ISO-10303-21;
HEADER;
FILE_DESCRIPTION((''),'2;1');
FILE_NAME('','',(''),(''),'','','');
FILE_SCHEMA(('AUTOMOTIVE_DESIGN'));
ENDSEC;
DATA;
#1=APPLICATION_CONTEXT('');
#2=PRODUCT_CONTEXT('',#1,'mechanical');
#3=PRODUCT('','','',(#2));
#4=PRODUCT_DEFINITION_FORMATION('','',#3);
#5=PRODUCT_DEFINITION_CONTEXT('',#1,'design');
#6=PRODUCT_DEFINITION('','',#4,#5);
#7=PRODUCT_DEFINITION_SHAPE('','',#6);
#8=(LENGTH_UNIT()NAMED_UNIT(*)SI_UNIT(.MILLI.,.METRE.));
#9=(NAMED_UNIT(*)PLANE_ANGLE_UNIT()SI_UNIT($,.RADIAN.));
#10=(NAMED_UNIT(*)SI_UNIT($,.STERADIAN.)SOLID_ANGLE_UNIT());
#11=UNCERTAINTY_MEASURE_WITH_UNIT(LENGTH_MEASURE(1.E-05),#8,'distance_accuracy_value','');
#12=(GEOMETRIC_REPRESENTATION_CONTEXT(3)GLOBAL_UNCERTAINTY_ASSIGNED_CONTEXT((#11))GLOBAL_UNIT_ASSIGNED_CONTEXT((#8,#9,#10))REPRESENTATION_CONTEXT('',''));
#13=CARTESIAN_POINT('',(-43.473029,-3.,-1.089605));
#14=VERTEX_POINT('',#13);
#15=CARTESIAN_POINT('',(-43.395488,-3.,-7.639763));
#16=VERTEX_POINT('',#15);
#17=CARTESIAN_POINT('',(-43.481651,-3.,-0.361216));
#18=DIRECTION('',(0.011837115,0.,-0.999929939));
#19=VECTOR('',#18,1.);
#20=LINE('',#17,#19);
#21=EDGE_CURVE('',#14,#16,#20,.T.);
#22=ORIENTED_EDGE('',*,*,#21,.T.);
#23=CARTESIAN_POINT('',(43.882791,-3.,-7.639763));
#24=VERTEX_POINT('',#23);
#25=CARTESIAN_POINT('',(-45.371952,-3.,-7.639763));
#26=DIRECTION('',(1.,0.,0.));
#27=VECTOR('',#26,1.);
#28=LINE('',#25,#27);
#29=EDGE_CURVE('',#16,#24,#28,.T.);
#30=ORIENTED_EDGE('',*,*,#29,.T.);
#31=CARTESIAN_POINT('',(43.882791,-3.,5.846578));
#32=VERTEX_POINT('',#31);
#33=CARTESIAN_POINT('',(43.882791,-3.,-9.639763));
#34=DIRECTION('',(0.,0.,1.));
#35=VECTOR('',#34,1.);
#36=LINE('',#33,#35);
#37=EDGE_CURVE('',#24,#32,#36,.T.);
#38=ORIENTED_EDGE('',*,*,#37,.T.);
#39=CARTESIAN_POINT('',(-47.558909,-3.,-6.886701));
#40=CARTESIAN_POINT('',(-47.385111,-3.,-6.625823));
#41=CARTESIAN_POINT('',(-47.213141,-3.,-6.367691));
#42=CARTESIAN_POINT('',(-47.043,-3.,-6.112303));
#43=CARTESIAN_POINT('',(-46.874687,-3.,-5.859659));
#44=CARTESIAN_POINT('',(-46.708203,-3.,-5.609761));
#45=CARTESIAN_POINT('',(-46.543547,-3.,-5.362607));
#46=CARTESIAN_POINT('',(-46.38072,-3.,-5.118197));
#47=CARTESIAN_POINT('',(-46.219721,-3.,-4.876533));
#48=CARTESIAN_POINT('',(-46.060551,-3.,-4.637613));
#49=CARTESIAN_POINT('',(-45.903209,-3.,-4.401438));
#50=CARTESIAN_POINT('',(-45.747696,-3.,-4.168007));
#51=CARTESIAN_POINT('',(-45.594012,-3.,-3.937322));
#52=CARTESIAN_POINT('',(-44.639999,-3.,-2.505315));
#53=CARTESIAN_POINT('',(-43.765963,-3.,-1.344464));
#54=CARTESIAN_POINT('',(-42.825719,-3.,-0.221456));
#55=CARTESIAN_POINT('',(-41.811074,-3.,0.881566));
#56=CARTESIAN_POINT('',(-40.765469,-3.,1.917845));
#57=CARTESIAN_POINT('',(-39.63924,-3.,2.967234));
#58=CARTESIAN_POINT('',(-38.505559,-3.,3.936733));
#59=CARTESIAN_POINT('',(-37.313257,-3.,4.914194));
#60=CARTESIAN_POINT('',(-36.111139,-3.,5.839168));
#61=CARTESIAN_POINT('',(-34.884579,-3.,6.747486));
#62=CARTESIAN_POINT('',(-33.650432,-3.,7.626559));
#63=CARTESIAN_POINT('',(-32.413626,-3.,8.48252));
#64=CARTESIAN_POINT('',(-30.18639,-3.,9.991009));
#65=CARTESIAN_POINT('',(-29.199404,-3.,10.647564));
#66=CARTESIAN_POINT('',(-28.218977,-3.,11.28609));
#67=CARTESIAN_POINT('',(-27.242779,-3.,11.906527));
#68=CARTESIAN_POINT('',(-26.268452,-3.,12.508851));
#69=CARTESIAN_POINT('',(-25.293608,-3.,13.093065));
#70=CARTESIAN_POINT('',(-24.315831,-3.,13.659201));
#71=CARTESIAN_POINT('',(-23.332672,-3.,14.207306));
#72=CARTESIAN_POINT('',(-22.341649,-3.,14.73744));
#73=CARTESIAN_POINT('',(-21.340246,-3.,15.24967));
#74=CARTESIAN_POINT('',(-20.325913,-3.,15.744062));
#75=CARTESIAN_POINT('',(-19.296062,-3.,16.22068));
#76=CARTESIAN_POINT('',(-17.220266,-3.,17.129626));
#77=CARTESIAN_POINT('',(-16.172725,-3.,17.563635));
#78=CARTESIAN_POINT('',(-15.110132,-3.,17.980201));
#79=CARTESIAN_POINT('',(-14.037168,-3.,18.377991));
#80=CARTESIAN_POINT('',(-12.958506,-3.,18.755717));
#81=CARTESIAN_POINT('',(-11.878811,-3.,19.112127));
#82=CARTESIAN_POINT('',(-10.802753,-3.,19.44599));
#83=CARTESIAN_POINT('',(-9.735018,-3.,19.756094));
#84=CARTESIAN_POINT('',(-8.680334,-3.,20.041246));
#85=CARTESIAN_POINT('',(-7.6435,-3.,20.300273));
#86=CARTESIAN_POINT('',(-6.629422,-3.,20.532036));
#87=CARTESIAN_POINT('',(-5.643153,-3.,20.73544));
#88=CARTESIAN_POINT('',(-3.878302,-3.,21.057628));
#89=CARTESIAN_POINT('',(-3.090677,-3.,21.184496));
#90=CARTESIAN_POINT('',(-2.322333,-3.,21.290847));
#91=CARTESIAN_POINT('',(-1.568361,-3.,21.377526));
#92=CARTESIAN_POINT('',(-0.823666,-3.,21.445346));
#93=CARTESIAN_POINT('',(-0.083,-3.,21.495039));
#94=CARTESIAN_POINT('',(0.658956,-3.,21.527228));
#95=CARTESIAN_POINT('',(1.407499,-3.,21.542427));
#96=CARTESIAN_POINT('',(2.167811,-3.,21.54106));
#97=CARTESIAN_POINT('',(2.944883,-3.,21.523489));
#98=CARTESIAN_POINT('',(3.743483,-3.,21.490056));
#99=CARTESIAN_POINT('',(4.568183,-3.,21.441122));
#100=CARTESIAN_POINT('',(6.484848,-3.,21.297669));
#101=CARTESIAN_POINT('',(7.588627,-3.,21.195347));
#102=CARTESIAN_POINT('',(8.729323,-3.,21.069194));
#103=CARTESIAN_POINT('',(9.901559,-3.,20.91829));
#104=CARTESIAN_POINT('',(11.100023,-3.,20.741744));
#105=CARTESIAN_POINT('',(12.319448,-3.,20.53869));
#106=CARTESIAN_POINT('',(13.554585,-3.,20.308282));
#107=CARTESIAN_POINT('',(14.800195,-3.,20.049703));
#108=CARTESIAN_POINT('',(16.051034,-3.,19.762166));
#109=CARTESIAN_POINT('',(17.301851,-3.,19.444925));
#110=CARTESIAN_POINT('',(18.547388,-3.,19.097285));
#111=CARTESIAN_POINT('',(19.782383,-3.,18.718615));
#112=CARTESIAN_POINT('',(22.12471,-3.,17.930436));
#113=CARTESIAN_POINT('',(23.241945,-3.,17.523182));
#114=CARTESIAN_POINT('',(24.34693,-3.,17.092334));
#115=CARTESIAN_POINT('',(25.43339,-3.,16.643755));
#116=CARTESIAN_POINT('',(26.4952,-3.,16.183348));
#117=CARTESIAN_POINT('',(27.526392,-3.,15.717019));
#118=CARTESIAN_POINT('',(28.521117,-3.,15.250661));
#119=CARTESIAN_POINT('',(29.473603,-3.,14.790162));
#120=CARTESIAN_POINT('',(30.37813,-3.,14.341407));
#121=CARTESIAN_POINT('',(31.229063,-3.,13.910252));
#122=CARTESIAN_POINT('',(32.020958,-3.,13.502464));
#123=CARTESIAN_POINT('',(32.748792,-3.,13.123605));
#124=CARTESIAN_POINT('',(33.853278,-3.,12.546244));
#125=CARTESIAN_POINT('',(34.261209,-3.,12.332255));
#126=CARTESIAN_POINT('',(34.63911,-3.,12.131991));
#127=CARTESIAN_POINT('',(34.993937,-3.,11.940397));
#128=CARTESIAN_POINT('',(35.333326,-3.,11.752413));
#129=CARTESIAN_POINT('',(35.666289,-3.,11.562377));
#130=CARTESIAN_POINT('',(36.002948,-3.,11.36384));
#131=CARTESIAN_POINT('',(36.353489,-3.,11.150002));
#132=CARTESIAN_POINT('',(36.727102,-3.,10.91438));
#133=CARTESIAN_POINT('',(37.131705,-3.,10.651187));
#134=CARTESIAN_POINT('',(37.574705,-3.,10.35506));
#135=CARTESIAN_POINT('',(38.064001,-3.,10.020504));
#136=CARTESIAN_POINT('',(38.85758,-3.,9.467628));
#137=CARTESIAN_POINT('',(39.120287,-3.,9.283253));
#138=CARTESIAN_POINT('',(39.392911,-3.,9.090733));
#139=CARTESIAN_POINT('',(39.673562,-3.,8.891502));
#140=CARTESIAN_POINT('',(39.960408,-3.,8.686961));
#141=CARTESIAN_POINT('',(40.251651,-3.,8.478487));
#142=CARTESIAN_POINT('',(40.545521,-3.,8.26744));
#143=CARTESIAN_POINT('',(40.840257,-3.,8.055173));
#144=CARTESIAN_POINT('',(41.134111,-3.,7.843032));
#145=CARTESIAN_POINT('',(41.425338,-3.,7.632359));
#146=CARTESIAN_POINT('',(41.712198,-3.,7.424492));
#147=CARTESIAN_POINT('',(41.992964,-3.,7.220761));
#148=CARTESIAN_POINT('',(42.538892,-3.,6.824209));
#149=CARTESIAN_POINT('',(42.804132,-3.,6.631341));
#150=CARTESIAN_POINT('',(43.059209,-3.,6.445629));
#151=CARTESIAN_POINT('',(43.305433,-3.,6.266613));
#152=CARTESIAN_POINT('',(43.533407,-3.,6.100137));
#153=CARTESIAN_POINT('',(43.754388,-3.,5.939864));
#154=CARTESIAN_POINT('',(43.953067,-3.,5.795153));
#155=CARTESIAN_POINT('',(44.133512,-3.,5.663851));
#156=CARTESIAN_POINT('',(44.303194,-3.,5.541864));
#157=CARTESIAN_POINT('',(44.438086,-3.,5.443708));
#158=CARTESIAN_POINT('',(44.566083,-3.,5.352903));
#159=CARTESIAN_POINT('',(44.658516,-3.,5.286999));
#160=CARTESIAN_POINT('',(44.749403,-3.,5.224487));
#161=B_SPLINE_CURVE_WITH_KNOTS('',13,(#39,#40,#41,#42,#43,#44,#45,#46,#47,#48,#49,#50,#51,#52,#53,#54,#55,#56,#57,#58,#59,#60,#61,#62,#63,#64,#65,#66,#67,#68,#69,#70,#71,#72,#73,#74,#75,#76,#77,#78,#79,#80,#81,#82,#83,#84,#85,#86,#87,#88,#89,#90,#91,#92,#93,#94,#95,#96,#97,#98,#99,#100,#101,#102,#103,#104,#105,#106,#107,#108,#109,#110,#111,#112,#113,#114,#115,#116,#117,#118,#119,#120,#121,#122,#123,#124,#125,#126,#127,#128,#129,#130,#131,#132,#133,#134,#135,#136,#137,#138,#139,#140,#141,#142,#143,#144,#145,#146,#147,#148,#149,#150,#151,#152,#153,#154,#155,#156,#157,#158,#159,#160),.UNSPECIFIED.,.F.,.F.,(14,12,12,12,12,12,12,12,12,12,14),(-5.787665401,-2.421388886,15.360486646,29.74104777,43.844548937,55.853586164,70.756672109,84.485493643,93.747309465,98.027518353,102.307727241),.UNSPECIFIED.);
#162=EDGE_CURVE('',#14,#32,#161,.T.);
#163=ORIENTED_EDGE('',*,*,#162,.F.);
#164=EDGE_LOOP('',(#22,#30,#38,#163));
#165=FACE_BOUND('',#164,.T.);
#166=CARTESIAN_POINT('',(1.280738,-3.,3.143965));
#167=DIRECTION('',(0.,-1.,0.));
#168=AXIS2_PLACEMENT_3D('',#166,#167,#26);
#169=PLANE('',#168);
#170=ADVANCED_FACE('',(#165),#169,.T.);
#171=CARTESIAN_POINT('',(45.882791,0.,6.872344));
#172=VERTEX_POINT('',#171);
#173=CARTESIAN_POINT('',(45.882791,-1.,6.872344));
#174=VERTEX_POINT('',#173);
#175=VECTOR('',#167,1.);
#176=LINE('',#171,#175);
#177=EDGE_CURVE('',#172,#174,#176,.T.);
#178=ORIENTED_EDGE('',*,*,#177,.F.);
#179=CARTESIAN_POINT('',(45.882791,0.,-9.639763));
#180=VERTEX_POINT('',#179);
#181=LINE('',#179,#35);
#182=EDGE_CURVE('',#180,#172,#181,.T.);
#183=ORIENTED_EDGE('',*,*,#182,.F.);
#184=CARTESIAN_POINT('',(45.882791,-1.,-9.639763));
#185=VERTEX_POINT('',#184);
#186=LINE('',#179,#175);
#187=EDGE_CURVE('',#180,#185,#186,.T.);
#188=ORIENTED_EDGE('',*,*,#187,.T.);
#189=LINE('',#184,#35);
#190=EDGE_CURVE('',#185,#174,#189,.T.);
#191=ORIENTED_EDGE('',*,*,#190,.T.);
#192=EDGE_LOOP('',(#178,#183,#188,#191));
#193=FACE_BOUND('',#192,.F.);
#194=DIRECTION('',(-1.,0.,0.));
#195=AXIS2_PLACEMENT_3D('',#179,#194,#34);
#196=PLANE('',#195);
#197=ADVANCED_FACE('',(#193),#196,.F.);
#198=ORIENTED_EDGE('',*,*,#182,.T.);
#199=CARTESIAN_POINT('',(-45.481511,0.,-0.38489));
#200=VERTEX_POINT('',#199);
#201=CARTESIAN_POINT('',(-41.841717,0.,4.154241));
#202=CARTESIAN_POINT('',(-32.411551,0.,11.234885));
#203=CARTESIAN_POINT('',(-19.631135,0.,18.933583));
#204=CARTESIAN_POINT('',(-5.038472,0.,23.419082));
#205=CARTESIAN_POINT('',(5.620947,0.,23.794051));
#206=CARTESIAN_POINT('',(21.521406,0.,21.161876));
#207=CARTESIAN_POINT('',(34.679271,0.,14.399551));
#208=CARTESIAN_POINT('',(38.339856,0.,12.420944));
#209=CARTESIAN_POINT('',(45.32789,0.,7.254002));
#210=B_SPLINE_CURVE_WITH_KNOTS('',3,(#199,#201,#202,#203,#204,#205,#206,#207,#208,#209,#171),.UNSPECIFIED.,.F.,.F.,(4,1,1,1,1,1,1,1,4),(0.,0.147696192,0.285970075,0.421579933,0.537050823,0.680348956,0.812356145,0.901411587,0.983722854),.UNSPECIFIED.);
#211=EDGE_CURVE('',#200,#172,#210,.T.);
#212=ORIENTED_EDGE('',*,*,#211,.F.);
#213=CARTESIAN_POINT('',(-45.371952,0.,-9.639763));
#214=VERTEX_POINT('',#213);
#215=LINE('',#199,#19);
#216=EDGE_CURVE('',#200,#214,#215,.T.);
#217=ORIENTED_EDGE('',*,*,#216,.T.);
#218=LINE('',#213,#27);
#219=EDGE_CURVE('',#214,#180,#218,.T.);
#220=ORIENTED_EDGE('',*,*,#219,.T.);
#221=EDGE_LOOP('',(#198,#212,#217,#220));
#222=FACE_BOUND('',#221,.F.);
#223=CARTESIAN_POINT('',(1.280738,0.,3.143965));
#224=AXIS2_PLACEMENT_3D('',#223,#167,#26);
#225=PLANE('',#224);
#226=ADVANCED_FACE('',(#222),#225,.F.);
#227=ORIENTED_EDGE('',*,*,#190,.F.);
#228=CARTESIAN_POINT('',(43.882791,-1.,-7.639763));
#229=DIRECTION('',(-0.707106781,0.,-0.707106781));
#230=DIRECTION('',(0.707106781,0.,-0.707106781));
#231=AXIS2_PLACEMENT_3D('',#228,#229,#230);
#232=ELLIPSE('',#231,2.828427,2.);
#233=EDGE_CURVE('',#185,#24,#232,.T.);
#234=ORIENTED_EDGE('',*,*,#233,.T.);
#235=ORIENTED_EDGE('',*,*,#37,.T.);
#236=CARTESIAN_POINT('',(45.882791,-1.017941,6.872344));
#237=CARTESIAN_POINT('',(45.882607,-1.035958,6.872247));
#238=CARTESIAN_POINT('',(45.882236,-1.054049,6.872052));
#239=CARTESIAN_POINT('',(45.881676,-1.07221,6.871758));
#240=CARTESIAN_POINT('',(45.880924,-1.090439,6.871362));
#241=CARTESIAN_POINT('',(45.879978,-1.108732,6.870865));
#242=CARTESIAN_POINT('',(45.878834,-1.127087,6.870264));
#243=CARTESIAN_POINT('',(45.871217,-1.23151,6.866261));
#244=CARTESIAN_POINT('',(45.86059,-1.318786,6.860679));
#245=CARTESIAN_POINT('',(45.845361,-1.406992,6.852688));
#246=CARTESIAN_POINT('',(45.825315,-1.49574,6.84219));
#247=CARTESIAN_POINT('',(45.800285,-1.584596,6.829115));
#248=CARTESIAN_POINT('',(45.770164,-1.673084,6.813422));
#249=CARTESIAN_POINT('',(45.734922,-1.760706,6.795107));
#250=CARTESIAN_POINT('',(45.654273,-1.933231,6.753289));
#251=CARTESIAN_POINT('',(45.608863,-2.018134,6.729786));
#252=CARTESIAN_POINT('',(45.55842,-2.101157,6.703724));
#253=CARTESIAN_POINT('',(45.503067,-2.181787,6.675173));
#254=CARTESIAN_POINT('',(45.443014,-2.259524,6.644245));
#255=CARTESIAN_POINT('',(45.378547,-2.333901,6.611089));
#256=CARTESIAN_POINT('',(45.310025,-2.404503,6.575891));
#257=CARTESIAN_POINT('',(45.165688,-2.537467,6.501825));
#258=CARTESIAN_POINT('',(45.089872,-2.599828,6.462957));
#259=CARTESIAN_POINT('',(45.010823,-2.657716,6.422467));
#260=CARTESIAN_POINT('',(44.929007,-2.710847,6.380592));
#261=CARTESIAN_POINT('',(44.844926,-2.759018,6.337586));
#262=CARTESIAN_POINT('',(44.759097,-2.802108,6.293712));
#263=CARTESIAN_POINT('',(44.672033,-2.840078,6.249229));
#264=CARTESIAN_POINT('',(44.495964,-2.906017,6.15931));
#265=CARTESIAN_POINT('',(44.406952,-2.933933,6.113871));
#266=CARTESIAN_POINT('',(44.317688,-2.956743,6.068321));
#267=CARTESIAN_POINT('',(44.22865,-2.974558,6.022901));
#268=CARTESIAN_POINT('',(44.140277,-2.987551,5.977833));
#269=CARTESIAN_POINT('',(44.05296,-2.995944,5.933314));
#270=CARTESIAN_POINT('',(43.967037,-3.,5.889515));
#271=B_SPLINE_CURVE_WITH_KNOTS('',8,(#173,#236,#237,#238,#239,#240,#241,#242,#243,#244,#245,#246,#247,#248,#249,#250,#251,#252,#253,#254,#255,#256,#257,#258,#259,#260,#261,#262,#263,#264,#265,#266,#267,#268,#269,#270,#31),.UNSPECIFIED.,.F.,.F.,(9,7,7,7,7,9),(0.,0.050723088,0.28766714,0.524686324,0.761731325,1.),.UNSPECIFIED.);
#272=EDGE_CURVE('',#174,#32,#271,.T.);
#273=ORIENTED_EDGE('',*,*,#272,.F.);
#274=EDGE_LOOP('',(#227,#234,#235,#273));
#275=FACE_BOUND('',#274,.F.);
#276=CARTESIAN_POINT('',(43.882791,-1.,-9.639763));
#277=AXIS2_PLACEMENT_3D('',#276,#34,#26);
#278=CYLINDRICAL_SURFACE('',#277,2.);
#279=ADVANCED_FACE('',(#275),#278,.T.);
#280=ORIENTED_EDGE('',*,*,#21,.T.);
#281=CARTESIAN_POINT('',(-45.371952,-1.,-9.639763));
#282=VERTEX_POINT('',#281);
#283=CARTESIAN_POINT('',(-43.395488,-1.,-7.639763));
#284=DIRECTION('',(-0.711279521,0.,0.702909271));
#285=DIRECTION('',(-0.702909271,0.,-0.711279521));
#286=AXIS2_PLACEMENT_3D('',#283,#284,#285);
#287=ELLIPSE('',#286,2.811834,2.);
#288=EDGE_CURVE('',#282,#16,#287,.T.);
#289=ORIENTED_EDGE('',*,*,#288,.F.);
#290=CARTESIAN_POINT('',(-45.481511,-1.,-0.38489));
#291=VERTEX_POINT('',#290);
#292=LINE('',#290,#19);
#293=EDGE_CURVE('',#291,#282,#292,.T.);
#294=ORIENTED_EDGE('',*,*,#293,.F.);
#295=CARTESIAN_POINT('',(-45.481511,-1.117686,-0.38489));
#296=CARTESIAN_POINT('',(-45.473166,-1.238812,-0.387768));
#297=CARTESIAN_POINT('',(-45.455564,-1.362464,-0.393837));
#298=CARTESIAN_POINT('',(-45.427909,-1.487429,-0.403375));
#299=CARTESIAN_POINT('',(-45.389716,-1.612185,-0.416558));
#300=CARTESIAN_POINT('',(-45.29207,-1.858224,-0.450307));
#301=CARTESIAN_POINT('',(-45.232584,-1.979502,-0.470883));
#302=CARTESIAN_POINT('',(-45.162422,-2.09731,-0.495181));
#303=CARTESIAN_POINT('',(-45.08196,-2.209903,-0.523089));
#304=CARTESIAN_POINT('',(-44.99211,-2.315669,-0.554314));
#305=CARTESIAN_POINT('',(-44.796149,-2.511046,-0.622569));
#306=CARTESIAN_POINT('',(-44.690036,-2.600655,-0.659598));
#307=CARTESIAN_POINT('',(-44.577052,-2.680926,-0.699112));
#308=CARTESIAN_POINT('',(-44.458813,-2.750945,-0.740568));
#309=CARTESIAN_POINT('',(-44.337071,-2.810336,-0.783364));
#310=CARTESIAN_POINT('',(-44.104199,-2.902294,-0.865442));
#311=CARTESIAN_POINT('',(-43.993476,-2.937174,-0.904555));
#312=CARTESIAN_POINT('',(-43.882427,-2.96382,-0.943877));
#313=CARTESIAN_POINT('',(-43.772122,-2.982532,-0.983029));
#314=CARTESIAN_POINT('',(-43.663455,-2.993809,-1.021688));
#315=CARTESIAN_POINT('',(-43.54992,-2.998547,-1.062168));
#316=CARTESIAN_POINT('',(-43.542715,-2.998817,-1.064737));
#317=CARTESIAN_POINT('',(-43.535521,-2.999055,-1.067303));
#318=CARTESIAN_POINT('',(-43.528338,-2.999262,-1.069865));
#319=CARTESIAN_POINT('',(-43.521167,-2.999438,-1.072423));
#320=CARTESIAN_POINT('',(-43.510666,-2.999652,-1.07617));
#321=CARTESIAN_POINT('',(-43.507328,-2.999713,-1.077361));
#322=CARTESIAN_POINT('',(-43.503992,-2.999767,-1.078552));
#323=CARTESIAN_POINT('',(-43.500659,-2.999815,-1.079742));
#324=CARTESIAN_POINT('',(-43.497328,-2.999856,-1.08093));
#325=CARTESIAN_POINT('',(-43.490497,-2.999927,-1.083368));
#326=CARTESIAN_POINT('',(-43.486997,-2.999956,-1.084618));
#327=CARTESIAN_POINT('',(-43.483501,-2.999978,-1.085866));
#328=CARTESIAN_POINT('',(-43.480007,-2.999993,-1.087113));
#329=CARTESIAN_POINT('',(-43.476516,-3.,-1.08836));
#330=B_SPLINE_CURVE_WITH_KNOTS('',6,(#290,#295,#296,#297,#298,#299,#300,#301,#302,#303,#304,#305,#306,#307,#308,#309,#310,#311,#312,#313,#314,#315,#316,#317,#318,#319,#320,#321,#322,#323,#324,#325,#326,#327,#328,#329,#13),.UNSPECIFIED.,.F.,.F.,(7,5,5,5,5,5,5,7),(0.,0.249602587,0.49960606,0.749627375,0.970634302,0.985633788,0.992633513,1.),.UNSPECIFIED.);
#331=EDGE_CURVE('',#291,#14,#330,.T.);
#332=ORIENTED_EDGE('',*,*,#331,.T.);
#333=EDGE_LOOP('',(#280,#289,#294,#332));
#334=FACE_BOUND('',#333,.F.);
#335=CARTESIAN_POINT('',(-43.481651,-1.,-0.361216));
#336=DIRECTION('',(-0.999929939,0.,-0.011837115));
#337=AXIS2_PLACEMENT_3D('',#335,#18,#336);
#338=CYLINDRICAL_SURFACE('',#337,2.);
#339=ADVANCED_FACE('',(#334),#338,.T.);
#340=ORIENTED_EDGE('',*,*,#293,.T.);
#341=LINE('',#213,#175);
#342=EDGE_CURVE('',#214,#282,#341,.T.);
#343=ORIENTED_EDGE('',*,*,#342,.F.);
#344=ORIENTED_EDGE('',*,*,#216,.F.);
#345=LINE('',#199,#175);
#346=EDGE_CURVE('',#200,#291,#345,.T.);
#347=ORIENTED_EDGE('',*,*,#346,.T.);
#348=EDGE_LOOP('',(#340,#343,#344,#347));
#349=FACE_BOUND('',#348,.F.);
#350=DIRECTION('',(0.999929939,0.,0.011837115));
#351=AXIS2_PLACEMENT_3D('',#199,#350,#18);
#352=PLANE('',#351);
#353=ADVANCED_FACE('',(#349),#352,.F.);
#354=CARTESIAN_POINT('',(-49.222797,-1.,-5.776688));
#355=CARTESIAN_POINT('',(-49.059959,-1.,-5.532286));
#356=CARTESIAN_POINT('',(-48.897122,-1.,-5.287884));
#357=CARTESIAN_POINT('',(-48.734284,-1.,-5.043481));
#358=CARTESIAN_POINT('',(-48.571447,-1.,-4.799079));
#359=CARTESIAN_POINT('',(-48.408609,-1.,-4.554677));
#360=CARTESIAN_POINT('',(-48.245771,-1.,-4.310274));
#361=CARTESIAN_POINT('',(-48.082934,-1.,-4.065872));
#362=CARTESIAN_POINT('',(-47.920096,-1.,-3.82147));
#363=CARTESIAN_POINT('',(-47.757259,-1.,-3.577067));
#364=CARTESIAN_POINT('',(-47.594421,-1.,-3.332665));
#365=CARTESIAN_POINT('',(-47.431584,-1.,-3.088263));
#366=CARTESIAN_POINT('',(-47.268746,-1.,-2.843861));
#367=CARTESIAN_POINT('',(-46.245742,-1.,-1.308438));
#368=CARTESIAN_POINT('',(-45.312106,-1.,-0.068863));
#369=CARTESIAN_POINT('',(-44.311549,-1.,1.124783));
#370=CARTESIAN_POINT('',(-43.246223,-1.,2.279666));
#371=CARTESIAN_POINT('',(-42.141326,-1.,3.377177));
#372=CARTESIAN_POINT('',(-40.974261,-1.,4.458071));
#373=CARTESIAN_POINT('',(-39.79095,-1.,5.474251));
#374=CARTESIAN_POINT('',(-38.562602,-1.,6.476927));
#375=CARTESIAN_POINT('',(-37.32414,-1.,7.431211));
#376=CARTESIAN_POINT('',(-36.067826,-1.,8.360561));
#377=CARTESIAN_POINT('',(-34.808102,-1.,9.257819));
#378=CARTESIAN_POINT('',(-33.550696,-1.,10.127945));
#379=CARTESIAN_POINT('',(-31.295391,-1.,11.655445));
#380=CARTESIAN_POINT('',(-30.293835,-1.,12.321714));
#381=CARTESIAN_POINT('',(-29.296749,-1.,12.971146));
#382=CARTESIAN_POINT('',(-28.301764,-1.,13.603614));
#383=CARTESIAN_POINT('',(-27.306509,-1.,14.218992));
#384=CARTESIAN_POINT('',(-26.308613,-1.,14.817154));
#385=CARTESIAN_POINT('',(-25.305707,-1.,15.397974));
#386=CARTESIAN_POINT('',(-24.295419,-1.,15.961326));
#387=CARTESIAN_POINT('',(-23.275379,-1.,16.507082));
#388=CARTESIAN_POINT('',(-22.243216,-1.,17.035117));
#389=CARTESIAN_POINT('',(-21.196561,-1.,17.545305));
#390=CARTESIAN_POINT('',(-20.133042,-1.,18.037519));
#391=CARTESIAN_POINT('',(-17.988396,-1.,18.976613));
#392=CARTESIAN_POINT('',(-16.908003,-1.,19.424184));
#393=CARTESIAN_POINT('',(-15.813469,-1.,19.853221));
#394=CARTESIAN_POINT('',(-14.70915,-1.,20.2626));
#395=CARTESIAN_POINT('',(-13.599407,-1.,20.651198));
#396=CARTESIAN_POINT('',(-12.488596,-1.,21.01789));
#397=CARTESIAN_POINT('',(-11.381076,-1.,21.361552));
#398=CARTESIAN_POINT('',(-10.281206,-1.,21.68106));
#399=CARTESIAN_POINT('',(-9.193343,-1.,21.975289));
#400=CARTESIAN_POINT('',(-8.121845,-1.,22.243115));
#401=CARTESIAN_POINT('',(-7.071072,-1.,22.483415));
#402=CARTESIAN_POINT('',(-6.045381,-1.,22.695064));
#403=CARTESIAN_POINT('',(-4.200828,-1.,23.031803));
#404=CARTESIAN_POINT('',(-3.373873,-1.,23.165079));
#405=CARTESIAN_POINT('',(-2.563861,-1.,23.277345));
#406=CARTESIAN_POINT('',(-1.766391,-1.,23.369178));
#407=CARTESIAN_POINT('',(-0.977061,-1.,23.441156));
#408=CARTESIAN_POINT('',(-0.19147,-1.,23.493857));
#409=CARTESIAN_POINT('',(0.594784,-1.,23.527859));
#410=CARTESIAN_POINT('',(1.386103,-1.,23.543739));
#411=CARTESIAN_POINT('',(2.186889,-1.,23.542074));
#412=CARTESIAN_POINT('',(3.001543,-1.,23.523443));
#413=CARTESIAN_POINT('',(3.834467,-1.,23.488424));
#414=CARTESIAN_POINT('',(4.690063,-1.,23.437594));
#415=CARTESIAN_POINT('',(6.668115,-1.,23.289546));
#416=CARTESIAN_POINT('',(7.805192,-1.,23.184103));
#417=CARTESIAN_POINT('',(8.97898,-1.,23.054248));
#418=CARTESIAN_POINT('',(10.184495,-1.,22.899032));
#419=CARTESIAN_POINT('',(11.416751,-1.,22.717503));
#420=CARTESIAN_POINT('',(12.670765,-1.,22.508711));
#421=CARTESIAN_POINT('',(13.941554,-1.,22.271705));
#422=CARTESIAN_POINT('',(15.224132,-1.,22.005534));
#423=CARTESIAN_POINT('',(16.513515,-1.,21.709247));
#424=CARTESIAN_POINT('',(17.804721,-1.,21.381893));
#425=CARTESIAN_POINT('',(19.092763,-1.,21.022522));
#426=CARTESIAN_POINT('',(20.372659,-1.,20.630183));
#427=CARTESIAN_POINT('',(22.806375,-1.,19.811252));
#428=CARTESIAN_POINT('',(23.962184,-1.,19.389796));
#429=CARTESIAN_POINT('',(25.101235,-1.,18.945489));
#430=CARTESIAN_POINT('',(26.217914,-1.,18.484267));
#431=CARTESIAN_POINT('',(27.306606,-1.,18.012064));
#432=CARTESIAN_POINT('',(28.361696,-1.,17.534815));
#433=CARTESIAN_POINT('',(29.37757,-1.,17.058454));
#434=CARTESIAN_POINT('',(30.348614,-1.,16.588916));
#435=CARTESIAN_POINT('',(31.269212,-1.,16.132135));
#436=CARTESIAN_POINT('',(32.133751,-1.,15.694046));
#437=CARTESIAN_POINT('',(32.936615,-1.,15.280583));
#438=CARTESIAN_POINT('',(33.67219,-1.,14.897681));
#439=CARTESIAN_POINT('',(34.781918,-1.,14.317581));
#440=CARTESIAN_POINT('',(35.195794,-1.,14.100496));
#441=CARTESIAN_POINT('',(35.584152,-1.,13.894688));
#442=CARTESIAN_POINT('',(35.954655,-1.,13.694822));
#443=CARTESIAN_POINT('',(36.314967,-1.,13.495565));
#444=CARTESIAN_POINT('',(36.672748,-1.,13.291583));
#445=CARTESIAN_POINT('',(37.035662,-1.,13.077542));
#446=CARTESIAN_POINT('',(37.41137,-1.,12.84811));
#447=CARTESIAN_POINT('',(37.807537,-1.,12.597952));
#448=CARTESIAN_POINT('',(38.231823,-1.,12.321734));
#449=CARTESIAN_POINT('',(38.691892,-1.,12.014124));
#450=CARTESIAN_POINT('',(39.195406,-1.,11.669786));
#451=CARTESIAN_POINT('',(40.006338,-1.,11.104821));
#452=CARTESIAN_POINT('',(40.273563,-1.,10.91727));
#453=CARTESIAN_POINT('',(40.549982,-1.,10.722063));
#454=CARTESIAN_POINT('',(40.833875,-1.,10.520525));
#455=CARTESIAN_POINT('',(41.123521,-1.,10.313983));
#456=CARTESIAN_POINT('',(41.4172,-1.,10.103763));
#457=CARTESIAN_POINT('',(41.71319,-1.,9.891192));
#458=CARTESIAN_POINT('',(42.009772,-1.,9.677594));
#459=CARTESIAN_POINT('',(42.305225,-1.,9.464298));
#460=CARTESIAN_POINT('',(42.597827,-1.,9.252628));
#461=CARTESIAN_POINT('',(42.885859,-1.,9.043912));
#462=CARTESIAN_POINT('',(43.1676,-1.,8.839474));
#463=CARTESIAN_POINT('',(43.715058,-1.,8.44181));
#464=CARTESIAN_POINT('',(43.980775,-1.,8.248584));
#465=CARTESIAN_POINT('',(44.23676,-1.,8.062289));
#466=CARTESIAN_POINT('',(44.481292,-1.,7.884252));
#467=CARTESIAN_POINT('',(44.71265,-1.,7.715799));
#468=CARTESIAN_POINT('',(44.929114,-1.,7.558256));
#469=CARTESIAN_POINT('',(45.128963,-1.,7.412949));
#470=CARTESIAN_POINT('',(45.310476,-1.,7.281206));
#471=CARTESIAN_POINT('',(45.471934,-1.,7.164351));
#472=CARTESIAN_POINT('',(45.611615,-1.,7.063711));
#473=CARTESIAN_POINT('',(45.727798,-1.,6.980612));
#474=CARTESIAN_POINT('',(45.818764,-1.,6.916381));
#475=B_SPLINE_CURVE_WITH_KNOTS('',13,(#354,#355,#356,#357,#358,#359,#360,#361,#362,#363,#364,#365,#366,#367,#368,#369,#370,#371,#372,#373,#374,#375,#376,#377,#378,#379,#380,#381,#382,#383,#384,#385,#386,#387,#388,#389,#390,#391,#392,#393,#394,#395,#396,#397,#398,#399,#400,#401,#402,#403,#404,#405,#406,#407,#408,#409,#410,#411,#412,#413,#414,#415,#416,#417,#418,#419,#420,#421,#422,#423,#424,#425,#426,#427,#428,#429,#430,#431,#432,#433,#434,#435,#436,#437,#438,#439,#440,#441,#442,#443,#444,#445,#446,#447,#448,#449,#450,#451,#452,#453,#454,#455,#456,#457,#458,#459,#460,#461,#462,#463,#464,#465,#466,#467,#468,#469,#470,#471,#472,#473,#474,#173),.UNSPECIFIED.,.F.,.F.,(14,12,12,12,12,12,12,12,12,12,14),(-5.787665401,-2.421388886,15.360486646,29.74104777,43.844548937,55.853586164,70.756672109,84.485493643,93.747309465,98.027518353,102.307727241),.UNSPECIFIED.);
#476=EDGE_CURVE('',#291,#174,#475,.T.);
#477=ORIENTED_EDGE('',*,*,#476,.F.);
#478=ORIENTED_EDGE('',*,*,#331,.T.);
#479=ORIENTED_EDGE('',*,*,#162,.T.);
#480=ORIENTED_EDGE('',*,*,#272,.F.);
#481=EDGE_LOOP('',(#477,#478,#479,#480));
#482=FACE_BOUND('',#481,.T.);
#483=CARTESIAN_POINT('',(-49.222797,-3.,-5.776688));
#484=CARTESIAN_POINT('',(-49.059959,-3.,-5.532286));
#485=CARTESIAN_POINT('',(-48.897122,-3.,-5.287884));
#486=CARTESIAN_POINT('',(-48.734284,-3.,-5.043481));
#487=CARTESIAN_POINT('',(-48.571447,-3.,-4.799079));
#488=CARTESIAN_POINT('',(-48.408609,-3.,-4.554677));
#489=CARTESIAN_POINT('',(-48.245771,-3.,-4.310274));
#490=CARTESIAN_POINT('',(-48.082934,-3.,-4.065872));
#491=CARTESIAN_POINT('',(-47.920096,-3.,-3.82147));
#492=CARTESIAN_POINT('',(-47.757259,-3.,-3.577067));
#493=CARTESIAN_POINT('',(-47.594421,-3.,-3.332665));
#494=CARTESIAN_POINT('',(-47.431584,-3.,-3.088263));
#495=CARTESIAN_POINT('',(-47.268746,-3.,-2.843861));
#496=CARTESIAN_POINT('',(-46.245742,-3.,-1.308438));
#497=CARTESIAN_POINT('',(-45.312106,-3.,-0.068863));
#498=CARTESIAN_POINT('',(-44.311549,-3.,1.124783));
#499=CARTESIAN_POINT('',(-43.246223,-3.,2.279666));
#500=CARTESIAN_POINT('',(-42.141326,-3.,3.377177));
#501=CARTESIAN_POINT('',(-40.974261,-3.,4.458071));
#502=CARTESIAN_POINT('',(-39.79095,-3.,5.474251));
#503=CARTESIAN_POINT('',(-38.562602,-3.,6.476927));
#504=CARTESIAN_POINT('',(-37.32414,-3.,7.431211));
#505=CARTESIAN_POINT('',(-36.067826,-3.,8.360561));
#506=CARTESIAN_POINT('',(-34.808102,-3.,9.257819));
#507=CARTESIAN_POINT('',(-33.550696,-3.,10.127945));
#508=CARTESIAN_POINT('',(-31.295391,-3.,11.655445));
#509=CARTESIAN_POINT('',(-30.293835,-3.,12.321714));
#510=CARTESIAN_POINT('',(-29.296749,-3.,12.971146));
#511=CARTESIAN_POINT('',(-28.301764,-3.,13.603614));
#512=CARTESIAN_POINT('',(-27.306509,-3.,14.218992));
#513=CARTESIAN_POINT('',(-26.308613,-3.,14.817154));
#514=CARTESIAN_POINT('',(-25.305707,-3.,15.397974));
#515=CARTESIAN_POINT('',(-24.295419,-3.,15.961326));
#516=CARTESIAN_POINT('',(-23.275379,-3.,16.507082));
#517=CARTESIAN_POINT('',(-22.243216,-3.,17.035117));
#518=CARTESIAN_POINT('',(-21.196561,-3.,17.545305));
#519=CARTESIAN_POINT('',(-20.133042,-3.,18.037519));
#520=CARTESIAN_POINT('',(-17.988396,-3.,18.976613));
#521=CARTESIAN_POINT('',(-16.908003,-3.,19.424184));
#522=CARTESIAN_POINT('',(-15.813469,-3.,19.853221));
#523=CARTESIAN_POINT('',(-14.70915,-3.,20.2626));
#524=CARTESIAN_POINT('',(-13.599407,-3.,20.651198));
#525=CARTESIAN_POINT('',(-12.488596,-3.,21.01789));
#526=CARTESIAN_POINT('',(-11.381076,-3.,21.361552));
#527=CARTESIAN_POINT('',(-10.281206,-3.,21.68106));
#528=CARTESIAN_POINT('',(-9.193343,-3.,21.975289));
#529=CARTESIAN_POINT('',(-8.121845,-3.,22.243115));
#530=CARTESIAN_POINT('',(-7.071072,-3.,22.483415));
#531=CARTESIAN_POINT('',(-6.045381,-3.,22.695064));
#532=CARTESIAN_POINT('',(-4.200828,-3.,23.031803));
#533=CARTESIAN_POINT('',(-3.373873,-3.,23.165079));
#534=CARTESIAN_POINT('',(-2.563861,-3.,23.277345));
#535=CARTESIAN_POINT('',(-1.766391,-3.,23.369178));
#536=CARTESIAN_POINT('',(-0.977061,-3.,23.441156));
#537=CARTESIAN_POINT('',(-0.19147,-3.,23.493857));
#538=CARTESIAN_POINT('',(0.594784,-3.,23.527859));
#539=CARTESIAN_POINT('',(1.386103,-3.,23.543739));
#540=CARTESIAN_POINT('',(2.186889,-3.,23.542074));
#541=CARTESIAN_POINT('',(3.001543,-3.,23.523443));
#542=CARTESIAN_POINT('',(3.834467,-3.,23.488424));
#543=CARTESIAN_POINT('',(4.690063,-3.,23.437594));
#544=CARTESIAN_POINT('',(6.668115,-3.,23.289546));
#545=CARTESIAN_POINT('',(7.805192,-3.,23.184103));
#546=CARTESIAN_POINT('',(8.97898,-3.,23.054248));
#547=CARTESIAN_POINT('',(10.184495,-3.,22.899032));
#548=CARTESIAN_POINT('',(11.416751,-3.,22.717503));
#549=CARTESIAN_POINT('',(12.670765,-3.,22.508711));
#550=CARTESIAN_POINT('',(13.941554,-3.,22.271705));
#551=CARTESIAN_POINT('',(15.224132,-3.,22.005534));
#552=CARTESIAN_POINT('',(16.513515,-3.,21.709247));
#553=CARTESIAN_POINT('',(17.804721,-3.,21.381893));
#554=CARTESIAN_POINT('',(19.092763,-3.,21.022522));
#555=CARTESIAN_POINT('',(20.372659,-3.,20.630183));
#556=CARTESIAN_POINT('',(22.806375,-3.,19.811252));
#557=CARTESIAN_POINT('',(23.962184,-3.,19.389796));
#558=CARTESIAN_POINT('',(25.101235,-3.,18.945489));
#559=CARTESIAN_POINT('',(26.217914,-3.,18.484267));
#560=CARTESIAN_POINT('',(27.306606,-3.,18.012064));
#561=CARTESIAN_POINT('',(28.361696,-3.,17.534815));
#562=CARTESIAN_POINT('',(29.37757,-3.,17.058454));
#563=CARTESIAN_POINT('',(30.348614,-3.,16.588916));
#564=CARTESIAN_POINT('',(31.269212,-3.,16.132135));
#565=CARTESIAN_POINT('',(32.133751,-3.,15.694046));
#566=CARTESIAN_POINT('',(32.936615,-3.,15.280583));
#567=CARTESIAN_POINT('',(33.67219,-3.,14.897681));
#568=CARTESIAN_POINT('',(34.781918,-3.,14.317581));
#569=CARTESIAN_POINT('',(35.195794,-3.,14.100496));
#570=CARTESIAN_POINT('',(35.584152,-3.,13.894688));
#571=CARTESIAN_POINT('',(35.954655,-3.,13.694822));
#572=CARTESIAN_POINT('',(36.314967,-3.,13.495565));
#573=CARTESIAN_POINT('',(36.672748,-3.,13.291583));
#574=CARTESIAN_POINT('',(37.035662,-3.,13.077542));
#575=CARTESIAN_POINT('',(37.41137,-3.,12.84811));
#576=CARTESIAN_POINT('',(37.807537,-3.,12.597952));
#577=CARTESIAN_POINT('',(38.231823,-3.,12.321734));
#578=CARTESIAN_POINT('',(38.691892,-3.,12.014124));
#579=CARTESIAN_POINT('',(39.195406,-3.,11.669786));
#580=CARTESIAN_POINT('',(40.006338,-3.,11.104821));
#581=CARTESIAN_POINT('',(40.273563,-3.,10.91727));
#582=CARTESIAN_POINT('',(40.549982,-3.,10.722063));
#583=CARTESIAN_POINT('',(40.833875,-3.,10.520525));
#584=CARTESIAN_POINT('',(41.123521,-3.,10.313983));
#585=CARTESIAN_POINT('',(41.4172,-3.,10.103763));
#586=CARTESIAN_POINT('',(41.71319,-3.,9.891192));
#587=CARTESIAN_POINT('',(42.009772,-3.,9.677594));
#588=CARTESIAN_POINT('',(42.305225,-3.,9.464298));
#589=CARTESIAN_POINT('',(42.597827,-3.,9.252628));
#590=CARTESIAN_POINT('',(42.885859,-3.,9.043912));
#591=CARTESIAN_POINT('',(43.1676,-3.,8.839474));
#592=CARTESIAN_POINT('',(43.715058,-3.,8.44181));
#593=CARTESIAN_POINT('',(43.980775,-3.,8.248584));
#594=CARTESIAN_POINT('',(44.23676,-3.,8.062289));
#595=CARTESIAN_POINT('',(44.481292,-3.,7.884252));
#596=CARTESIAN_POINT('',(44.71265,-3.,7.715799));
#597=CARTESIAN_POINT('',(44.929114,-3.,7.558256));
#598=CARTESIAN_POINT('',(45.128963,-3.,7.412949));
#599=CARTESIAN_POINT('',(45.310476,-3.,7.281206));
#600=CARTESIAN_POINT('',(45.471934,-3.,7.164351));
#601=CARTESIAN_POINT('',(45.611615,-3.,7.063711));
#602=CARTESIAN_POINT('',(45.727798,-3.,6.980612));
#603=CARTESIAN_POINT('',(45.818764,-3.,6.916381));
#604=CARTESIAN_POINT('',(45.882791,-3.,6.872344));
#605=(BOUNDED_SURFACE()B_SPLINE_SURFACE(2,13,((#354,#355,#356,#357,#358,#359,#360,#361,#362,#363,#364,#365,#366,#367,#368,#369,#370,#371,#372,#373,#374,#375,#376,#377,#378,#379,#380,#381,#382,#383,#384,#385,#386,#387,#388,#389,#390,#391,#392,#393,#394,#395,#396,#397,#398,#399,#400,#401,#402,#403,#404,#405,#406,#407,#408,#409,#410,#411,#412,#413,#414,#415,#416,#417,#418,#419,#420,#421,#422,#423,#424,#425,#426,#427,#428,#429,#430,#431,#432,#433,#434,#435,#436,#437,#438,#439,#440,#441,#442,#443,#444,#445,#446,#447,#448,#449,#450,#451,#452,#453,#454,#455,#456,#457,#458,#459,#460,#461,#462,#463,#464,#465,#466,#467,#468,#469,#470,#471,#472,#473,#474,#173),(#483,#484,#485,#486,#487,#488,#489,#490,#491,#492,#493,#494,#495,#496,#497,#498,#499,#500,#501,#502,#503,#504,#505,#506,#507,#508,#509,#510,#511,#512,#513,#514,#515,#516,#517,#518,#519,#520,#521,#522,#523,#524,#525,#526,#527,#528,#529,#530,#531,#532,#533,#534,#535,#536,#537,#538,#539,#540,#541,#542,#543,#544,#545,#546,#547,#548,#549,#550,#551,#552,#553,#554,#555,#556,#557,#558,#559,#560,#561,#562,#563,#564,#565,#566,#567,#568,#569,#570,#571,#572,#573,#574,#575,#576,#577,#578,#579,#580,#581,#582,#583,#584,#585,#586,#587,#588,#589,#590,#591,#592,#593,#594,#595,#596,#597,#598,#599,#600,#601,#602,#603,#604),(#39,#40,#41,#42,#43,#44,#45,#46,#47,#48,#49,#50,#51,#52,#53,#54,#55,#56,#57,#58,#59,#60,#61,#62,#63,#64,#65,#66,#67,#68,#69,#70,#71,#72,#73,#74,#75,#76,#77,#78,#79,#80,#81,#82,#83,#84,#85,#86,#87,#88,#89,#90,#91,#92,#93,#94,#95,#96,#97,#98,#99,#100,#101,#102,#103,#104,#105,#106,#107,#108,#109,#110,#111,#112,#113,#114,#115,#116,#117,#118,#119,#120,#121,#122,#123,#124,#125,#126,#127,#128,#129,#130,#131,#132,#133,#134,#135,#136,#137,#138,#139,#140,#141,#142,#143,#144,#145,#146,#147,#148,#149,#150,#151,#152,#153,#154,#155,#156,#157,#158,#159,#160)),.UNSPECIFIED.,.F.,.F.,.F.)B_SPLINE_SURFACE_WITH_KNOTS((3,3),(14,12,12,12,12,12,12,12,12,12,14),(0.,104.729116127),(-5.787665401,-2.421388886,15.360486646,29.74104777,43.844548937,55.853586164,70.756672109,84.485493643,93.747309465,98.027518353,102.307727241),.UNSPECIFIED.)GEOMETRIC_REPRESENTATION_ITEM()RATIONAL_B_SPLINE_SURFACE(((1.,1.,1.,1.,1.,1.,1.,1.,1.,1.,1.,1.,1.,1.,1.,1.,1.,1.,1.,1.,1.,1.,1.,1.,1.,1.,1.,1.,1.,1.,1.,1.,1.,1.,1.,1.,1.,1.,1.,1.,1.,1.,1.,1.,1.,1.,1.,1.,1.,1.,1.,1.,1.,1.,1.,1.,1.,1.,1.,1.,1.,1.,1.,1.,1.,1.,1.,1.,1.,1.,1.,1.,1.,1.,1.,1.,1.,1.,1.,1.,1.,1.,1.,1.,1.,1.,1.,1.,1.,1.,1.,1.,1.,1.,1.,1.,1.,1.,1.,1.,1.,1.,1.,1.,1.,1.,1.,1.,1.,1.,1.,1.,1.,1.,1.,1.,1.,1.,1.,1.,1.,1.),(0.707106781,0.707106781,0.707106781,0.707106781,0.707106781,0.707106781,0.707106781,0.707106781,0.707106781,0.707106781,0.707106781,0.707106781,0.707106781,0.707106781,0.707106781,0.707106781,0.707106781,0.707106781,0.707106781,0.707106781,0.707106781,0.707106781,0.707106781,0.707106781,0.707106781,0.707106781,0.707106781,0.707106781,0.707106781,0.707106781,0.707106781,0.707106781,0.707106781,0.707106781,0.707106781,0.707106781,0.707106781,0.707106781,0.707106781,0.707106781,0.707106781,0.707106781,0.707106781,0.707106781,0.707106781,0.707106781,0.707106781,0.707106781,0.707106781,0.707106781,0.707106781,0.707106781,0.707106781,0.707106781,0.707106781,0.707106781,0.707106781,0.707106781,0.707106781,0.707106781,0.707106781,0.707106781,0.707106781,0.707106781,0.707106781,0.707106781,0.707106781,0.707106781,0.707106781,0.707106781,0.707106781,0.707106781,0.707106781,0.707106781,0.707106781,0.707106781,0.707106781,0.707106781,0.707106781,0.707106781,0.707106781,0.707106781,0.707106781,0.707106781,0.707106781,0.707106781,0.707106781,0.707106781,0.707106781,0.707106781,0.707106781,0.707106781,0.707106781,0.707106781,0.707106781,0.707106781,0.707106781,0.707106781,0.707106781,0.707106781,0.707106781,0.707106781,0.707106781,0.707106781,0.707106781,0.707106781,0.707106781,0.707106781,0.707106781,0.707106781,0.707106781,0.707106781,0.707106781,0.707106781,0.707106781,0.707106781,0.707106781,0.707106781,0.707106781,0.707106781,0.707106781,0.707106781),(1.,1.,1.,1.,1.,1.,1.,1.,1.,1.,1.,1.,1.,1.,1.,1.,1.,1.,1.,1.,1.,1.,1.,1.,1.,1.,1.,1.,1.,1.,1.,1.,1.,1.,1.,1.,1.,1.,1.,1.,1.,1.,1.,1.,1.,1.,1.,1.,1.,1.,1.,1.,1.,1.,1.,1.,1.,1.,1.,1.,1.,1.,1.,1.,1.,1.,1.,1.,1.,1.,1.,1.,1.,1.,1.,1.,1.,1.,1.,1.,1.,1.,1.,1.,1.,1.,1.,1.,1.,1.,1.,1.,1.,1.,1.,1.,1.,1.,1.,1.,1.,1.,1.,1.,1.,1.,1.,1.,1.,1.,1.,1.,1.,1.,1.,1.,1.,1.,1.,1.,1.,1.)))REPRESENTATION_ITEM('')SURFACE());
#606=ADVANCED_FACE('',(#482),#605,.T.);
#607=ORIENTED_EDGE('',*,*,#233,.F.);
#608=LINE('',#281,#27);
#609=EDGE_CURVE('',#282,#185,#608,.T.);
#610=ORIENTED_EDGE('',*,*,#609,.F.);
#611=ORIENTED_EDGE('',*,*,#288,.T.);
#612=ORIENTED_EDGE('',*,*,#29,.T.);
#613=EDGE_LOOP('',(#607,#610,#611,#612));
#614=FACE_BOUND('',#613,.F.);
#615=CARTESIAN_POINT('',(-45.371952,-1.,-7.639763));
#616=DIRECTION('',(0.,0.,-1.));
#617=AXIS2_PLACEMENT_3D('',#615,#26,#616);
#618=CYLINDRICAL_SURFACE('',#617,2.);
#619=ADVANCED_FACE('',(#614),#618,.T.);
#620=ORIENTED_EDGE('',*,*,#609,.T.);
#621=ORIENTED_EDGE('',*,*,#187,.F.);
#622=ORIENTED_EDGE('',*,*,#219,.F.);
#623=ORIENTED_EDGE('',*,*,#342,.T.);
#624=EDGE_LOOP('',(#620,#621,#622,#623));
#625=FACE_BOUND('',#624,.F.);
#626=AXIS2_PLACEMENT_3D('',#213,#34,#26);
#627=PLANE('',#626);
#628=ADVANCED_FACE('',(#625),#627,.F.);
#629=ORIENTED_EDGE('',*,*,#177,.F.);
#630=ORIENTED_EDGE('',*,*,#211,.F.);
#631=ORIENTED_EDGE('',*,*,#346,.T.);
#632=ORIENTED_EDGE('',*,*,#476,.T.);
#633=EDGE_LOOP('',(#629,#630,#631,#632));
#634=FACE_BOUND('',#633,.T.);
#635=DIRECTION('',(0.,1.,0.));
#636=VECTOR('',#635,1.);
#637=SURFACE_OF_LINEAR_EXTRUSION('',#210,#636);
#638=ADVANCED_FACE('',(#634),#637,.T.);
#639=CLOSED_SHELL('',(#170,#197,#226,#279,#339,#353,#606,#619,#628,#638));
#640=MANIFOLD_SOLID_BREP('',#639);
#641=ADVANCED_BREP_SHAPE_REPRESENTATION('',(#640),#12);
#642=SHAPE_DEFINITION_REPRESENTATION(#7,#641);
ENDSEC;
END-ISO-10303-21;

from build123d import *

# Parameters (mm, degrees)
F1_DEPTH = 3
F2_R     = 2


with BuildPart() as f1:
    # F0 (on Front) → F1 (new body)
    with BuildSketch(Plane.XZ):
        with BuildLine():
            Line((-45.4815110888, -0.3848903712), (-45.3719524288, -9.6397625337))
            Line((-45.3719524288, -9.6397625337), (45.882790834, -9.6397625337))
            Line((45.882790834, -9.6397625337), (45.882790834, 6.8723438843))
            add(Edge.make_bspline(
                [(-45.4815110888, -0.3848903712), (-41.8417168354, 4.1542411246), (-32.4115512404, 11.2348853063), (-19.6311352295, 18.9335833872), (-5.0384715674, 23.419081985), (5.6209472315, 23.7940507645), (21.5214061349, 21.1618756859), (34.6792711043, 14.3995509583), (38.3398564941, 12.4209440506), (45.327889945, 7.2540018263), (45.882790834, 6.8723438843)],
                knots=[0, 0, 0, 0, 0.1476961923, 0.2859700745, 0.421579933, 0.5370508235, 0.6803489558, 0.8123561449, 0.9014115871, 0.9837228536, 0.9837228536, 0.9837228536, 0.9837228536], degree=3))
        make_face()
    extrude(amount=F1_DEPTH)

    # F2
    f2_edges = [f1.edges().sort_by_distance(p)[0] for p in [
        (-1.359729, -3, 23.380607),
        (-45.426732, -3, -5.012326),
        (0.255419, -3, -9.639763),
        (45.882791, -3, -1.383709),
    ]]
    fillet(f2_edges, radius=F2_R)


solid = f1.part
